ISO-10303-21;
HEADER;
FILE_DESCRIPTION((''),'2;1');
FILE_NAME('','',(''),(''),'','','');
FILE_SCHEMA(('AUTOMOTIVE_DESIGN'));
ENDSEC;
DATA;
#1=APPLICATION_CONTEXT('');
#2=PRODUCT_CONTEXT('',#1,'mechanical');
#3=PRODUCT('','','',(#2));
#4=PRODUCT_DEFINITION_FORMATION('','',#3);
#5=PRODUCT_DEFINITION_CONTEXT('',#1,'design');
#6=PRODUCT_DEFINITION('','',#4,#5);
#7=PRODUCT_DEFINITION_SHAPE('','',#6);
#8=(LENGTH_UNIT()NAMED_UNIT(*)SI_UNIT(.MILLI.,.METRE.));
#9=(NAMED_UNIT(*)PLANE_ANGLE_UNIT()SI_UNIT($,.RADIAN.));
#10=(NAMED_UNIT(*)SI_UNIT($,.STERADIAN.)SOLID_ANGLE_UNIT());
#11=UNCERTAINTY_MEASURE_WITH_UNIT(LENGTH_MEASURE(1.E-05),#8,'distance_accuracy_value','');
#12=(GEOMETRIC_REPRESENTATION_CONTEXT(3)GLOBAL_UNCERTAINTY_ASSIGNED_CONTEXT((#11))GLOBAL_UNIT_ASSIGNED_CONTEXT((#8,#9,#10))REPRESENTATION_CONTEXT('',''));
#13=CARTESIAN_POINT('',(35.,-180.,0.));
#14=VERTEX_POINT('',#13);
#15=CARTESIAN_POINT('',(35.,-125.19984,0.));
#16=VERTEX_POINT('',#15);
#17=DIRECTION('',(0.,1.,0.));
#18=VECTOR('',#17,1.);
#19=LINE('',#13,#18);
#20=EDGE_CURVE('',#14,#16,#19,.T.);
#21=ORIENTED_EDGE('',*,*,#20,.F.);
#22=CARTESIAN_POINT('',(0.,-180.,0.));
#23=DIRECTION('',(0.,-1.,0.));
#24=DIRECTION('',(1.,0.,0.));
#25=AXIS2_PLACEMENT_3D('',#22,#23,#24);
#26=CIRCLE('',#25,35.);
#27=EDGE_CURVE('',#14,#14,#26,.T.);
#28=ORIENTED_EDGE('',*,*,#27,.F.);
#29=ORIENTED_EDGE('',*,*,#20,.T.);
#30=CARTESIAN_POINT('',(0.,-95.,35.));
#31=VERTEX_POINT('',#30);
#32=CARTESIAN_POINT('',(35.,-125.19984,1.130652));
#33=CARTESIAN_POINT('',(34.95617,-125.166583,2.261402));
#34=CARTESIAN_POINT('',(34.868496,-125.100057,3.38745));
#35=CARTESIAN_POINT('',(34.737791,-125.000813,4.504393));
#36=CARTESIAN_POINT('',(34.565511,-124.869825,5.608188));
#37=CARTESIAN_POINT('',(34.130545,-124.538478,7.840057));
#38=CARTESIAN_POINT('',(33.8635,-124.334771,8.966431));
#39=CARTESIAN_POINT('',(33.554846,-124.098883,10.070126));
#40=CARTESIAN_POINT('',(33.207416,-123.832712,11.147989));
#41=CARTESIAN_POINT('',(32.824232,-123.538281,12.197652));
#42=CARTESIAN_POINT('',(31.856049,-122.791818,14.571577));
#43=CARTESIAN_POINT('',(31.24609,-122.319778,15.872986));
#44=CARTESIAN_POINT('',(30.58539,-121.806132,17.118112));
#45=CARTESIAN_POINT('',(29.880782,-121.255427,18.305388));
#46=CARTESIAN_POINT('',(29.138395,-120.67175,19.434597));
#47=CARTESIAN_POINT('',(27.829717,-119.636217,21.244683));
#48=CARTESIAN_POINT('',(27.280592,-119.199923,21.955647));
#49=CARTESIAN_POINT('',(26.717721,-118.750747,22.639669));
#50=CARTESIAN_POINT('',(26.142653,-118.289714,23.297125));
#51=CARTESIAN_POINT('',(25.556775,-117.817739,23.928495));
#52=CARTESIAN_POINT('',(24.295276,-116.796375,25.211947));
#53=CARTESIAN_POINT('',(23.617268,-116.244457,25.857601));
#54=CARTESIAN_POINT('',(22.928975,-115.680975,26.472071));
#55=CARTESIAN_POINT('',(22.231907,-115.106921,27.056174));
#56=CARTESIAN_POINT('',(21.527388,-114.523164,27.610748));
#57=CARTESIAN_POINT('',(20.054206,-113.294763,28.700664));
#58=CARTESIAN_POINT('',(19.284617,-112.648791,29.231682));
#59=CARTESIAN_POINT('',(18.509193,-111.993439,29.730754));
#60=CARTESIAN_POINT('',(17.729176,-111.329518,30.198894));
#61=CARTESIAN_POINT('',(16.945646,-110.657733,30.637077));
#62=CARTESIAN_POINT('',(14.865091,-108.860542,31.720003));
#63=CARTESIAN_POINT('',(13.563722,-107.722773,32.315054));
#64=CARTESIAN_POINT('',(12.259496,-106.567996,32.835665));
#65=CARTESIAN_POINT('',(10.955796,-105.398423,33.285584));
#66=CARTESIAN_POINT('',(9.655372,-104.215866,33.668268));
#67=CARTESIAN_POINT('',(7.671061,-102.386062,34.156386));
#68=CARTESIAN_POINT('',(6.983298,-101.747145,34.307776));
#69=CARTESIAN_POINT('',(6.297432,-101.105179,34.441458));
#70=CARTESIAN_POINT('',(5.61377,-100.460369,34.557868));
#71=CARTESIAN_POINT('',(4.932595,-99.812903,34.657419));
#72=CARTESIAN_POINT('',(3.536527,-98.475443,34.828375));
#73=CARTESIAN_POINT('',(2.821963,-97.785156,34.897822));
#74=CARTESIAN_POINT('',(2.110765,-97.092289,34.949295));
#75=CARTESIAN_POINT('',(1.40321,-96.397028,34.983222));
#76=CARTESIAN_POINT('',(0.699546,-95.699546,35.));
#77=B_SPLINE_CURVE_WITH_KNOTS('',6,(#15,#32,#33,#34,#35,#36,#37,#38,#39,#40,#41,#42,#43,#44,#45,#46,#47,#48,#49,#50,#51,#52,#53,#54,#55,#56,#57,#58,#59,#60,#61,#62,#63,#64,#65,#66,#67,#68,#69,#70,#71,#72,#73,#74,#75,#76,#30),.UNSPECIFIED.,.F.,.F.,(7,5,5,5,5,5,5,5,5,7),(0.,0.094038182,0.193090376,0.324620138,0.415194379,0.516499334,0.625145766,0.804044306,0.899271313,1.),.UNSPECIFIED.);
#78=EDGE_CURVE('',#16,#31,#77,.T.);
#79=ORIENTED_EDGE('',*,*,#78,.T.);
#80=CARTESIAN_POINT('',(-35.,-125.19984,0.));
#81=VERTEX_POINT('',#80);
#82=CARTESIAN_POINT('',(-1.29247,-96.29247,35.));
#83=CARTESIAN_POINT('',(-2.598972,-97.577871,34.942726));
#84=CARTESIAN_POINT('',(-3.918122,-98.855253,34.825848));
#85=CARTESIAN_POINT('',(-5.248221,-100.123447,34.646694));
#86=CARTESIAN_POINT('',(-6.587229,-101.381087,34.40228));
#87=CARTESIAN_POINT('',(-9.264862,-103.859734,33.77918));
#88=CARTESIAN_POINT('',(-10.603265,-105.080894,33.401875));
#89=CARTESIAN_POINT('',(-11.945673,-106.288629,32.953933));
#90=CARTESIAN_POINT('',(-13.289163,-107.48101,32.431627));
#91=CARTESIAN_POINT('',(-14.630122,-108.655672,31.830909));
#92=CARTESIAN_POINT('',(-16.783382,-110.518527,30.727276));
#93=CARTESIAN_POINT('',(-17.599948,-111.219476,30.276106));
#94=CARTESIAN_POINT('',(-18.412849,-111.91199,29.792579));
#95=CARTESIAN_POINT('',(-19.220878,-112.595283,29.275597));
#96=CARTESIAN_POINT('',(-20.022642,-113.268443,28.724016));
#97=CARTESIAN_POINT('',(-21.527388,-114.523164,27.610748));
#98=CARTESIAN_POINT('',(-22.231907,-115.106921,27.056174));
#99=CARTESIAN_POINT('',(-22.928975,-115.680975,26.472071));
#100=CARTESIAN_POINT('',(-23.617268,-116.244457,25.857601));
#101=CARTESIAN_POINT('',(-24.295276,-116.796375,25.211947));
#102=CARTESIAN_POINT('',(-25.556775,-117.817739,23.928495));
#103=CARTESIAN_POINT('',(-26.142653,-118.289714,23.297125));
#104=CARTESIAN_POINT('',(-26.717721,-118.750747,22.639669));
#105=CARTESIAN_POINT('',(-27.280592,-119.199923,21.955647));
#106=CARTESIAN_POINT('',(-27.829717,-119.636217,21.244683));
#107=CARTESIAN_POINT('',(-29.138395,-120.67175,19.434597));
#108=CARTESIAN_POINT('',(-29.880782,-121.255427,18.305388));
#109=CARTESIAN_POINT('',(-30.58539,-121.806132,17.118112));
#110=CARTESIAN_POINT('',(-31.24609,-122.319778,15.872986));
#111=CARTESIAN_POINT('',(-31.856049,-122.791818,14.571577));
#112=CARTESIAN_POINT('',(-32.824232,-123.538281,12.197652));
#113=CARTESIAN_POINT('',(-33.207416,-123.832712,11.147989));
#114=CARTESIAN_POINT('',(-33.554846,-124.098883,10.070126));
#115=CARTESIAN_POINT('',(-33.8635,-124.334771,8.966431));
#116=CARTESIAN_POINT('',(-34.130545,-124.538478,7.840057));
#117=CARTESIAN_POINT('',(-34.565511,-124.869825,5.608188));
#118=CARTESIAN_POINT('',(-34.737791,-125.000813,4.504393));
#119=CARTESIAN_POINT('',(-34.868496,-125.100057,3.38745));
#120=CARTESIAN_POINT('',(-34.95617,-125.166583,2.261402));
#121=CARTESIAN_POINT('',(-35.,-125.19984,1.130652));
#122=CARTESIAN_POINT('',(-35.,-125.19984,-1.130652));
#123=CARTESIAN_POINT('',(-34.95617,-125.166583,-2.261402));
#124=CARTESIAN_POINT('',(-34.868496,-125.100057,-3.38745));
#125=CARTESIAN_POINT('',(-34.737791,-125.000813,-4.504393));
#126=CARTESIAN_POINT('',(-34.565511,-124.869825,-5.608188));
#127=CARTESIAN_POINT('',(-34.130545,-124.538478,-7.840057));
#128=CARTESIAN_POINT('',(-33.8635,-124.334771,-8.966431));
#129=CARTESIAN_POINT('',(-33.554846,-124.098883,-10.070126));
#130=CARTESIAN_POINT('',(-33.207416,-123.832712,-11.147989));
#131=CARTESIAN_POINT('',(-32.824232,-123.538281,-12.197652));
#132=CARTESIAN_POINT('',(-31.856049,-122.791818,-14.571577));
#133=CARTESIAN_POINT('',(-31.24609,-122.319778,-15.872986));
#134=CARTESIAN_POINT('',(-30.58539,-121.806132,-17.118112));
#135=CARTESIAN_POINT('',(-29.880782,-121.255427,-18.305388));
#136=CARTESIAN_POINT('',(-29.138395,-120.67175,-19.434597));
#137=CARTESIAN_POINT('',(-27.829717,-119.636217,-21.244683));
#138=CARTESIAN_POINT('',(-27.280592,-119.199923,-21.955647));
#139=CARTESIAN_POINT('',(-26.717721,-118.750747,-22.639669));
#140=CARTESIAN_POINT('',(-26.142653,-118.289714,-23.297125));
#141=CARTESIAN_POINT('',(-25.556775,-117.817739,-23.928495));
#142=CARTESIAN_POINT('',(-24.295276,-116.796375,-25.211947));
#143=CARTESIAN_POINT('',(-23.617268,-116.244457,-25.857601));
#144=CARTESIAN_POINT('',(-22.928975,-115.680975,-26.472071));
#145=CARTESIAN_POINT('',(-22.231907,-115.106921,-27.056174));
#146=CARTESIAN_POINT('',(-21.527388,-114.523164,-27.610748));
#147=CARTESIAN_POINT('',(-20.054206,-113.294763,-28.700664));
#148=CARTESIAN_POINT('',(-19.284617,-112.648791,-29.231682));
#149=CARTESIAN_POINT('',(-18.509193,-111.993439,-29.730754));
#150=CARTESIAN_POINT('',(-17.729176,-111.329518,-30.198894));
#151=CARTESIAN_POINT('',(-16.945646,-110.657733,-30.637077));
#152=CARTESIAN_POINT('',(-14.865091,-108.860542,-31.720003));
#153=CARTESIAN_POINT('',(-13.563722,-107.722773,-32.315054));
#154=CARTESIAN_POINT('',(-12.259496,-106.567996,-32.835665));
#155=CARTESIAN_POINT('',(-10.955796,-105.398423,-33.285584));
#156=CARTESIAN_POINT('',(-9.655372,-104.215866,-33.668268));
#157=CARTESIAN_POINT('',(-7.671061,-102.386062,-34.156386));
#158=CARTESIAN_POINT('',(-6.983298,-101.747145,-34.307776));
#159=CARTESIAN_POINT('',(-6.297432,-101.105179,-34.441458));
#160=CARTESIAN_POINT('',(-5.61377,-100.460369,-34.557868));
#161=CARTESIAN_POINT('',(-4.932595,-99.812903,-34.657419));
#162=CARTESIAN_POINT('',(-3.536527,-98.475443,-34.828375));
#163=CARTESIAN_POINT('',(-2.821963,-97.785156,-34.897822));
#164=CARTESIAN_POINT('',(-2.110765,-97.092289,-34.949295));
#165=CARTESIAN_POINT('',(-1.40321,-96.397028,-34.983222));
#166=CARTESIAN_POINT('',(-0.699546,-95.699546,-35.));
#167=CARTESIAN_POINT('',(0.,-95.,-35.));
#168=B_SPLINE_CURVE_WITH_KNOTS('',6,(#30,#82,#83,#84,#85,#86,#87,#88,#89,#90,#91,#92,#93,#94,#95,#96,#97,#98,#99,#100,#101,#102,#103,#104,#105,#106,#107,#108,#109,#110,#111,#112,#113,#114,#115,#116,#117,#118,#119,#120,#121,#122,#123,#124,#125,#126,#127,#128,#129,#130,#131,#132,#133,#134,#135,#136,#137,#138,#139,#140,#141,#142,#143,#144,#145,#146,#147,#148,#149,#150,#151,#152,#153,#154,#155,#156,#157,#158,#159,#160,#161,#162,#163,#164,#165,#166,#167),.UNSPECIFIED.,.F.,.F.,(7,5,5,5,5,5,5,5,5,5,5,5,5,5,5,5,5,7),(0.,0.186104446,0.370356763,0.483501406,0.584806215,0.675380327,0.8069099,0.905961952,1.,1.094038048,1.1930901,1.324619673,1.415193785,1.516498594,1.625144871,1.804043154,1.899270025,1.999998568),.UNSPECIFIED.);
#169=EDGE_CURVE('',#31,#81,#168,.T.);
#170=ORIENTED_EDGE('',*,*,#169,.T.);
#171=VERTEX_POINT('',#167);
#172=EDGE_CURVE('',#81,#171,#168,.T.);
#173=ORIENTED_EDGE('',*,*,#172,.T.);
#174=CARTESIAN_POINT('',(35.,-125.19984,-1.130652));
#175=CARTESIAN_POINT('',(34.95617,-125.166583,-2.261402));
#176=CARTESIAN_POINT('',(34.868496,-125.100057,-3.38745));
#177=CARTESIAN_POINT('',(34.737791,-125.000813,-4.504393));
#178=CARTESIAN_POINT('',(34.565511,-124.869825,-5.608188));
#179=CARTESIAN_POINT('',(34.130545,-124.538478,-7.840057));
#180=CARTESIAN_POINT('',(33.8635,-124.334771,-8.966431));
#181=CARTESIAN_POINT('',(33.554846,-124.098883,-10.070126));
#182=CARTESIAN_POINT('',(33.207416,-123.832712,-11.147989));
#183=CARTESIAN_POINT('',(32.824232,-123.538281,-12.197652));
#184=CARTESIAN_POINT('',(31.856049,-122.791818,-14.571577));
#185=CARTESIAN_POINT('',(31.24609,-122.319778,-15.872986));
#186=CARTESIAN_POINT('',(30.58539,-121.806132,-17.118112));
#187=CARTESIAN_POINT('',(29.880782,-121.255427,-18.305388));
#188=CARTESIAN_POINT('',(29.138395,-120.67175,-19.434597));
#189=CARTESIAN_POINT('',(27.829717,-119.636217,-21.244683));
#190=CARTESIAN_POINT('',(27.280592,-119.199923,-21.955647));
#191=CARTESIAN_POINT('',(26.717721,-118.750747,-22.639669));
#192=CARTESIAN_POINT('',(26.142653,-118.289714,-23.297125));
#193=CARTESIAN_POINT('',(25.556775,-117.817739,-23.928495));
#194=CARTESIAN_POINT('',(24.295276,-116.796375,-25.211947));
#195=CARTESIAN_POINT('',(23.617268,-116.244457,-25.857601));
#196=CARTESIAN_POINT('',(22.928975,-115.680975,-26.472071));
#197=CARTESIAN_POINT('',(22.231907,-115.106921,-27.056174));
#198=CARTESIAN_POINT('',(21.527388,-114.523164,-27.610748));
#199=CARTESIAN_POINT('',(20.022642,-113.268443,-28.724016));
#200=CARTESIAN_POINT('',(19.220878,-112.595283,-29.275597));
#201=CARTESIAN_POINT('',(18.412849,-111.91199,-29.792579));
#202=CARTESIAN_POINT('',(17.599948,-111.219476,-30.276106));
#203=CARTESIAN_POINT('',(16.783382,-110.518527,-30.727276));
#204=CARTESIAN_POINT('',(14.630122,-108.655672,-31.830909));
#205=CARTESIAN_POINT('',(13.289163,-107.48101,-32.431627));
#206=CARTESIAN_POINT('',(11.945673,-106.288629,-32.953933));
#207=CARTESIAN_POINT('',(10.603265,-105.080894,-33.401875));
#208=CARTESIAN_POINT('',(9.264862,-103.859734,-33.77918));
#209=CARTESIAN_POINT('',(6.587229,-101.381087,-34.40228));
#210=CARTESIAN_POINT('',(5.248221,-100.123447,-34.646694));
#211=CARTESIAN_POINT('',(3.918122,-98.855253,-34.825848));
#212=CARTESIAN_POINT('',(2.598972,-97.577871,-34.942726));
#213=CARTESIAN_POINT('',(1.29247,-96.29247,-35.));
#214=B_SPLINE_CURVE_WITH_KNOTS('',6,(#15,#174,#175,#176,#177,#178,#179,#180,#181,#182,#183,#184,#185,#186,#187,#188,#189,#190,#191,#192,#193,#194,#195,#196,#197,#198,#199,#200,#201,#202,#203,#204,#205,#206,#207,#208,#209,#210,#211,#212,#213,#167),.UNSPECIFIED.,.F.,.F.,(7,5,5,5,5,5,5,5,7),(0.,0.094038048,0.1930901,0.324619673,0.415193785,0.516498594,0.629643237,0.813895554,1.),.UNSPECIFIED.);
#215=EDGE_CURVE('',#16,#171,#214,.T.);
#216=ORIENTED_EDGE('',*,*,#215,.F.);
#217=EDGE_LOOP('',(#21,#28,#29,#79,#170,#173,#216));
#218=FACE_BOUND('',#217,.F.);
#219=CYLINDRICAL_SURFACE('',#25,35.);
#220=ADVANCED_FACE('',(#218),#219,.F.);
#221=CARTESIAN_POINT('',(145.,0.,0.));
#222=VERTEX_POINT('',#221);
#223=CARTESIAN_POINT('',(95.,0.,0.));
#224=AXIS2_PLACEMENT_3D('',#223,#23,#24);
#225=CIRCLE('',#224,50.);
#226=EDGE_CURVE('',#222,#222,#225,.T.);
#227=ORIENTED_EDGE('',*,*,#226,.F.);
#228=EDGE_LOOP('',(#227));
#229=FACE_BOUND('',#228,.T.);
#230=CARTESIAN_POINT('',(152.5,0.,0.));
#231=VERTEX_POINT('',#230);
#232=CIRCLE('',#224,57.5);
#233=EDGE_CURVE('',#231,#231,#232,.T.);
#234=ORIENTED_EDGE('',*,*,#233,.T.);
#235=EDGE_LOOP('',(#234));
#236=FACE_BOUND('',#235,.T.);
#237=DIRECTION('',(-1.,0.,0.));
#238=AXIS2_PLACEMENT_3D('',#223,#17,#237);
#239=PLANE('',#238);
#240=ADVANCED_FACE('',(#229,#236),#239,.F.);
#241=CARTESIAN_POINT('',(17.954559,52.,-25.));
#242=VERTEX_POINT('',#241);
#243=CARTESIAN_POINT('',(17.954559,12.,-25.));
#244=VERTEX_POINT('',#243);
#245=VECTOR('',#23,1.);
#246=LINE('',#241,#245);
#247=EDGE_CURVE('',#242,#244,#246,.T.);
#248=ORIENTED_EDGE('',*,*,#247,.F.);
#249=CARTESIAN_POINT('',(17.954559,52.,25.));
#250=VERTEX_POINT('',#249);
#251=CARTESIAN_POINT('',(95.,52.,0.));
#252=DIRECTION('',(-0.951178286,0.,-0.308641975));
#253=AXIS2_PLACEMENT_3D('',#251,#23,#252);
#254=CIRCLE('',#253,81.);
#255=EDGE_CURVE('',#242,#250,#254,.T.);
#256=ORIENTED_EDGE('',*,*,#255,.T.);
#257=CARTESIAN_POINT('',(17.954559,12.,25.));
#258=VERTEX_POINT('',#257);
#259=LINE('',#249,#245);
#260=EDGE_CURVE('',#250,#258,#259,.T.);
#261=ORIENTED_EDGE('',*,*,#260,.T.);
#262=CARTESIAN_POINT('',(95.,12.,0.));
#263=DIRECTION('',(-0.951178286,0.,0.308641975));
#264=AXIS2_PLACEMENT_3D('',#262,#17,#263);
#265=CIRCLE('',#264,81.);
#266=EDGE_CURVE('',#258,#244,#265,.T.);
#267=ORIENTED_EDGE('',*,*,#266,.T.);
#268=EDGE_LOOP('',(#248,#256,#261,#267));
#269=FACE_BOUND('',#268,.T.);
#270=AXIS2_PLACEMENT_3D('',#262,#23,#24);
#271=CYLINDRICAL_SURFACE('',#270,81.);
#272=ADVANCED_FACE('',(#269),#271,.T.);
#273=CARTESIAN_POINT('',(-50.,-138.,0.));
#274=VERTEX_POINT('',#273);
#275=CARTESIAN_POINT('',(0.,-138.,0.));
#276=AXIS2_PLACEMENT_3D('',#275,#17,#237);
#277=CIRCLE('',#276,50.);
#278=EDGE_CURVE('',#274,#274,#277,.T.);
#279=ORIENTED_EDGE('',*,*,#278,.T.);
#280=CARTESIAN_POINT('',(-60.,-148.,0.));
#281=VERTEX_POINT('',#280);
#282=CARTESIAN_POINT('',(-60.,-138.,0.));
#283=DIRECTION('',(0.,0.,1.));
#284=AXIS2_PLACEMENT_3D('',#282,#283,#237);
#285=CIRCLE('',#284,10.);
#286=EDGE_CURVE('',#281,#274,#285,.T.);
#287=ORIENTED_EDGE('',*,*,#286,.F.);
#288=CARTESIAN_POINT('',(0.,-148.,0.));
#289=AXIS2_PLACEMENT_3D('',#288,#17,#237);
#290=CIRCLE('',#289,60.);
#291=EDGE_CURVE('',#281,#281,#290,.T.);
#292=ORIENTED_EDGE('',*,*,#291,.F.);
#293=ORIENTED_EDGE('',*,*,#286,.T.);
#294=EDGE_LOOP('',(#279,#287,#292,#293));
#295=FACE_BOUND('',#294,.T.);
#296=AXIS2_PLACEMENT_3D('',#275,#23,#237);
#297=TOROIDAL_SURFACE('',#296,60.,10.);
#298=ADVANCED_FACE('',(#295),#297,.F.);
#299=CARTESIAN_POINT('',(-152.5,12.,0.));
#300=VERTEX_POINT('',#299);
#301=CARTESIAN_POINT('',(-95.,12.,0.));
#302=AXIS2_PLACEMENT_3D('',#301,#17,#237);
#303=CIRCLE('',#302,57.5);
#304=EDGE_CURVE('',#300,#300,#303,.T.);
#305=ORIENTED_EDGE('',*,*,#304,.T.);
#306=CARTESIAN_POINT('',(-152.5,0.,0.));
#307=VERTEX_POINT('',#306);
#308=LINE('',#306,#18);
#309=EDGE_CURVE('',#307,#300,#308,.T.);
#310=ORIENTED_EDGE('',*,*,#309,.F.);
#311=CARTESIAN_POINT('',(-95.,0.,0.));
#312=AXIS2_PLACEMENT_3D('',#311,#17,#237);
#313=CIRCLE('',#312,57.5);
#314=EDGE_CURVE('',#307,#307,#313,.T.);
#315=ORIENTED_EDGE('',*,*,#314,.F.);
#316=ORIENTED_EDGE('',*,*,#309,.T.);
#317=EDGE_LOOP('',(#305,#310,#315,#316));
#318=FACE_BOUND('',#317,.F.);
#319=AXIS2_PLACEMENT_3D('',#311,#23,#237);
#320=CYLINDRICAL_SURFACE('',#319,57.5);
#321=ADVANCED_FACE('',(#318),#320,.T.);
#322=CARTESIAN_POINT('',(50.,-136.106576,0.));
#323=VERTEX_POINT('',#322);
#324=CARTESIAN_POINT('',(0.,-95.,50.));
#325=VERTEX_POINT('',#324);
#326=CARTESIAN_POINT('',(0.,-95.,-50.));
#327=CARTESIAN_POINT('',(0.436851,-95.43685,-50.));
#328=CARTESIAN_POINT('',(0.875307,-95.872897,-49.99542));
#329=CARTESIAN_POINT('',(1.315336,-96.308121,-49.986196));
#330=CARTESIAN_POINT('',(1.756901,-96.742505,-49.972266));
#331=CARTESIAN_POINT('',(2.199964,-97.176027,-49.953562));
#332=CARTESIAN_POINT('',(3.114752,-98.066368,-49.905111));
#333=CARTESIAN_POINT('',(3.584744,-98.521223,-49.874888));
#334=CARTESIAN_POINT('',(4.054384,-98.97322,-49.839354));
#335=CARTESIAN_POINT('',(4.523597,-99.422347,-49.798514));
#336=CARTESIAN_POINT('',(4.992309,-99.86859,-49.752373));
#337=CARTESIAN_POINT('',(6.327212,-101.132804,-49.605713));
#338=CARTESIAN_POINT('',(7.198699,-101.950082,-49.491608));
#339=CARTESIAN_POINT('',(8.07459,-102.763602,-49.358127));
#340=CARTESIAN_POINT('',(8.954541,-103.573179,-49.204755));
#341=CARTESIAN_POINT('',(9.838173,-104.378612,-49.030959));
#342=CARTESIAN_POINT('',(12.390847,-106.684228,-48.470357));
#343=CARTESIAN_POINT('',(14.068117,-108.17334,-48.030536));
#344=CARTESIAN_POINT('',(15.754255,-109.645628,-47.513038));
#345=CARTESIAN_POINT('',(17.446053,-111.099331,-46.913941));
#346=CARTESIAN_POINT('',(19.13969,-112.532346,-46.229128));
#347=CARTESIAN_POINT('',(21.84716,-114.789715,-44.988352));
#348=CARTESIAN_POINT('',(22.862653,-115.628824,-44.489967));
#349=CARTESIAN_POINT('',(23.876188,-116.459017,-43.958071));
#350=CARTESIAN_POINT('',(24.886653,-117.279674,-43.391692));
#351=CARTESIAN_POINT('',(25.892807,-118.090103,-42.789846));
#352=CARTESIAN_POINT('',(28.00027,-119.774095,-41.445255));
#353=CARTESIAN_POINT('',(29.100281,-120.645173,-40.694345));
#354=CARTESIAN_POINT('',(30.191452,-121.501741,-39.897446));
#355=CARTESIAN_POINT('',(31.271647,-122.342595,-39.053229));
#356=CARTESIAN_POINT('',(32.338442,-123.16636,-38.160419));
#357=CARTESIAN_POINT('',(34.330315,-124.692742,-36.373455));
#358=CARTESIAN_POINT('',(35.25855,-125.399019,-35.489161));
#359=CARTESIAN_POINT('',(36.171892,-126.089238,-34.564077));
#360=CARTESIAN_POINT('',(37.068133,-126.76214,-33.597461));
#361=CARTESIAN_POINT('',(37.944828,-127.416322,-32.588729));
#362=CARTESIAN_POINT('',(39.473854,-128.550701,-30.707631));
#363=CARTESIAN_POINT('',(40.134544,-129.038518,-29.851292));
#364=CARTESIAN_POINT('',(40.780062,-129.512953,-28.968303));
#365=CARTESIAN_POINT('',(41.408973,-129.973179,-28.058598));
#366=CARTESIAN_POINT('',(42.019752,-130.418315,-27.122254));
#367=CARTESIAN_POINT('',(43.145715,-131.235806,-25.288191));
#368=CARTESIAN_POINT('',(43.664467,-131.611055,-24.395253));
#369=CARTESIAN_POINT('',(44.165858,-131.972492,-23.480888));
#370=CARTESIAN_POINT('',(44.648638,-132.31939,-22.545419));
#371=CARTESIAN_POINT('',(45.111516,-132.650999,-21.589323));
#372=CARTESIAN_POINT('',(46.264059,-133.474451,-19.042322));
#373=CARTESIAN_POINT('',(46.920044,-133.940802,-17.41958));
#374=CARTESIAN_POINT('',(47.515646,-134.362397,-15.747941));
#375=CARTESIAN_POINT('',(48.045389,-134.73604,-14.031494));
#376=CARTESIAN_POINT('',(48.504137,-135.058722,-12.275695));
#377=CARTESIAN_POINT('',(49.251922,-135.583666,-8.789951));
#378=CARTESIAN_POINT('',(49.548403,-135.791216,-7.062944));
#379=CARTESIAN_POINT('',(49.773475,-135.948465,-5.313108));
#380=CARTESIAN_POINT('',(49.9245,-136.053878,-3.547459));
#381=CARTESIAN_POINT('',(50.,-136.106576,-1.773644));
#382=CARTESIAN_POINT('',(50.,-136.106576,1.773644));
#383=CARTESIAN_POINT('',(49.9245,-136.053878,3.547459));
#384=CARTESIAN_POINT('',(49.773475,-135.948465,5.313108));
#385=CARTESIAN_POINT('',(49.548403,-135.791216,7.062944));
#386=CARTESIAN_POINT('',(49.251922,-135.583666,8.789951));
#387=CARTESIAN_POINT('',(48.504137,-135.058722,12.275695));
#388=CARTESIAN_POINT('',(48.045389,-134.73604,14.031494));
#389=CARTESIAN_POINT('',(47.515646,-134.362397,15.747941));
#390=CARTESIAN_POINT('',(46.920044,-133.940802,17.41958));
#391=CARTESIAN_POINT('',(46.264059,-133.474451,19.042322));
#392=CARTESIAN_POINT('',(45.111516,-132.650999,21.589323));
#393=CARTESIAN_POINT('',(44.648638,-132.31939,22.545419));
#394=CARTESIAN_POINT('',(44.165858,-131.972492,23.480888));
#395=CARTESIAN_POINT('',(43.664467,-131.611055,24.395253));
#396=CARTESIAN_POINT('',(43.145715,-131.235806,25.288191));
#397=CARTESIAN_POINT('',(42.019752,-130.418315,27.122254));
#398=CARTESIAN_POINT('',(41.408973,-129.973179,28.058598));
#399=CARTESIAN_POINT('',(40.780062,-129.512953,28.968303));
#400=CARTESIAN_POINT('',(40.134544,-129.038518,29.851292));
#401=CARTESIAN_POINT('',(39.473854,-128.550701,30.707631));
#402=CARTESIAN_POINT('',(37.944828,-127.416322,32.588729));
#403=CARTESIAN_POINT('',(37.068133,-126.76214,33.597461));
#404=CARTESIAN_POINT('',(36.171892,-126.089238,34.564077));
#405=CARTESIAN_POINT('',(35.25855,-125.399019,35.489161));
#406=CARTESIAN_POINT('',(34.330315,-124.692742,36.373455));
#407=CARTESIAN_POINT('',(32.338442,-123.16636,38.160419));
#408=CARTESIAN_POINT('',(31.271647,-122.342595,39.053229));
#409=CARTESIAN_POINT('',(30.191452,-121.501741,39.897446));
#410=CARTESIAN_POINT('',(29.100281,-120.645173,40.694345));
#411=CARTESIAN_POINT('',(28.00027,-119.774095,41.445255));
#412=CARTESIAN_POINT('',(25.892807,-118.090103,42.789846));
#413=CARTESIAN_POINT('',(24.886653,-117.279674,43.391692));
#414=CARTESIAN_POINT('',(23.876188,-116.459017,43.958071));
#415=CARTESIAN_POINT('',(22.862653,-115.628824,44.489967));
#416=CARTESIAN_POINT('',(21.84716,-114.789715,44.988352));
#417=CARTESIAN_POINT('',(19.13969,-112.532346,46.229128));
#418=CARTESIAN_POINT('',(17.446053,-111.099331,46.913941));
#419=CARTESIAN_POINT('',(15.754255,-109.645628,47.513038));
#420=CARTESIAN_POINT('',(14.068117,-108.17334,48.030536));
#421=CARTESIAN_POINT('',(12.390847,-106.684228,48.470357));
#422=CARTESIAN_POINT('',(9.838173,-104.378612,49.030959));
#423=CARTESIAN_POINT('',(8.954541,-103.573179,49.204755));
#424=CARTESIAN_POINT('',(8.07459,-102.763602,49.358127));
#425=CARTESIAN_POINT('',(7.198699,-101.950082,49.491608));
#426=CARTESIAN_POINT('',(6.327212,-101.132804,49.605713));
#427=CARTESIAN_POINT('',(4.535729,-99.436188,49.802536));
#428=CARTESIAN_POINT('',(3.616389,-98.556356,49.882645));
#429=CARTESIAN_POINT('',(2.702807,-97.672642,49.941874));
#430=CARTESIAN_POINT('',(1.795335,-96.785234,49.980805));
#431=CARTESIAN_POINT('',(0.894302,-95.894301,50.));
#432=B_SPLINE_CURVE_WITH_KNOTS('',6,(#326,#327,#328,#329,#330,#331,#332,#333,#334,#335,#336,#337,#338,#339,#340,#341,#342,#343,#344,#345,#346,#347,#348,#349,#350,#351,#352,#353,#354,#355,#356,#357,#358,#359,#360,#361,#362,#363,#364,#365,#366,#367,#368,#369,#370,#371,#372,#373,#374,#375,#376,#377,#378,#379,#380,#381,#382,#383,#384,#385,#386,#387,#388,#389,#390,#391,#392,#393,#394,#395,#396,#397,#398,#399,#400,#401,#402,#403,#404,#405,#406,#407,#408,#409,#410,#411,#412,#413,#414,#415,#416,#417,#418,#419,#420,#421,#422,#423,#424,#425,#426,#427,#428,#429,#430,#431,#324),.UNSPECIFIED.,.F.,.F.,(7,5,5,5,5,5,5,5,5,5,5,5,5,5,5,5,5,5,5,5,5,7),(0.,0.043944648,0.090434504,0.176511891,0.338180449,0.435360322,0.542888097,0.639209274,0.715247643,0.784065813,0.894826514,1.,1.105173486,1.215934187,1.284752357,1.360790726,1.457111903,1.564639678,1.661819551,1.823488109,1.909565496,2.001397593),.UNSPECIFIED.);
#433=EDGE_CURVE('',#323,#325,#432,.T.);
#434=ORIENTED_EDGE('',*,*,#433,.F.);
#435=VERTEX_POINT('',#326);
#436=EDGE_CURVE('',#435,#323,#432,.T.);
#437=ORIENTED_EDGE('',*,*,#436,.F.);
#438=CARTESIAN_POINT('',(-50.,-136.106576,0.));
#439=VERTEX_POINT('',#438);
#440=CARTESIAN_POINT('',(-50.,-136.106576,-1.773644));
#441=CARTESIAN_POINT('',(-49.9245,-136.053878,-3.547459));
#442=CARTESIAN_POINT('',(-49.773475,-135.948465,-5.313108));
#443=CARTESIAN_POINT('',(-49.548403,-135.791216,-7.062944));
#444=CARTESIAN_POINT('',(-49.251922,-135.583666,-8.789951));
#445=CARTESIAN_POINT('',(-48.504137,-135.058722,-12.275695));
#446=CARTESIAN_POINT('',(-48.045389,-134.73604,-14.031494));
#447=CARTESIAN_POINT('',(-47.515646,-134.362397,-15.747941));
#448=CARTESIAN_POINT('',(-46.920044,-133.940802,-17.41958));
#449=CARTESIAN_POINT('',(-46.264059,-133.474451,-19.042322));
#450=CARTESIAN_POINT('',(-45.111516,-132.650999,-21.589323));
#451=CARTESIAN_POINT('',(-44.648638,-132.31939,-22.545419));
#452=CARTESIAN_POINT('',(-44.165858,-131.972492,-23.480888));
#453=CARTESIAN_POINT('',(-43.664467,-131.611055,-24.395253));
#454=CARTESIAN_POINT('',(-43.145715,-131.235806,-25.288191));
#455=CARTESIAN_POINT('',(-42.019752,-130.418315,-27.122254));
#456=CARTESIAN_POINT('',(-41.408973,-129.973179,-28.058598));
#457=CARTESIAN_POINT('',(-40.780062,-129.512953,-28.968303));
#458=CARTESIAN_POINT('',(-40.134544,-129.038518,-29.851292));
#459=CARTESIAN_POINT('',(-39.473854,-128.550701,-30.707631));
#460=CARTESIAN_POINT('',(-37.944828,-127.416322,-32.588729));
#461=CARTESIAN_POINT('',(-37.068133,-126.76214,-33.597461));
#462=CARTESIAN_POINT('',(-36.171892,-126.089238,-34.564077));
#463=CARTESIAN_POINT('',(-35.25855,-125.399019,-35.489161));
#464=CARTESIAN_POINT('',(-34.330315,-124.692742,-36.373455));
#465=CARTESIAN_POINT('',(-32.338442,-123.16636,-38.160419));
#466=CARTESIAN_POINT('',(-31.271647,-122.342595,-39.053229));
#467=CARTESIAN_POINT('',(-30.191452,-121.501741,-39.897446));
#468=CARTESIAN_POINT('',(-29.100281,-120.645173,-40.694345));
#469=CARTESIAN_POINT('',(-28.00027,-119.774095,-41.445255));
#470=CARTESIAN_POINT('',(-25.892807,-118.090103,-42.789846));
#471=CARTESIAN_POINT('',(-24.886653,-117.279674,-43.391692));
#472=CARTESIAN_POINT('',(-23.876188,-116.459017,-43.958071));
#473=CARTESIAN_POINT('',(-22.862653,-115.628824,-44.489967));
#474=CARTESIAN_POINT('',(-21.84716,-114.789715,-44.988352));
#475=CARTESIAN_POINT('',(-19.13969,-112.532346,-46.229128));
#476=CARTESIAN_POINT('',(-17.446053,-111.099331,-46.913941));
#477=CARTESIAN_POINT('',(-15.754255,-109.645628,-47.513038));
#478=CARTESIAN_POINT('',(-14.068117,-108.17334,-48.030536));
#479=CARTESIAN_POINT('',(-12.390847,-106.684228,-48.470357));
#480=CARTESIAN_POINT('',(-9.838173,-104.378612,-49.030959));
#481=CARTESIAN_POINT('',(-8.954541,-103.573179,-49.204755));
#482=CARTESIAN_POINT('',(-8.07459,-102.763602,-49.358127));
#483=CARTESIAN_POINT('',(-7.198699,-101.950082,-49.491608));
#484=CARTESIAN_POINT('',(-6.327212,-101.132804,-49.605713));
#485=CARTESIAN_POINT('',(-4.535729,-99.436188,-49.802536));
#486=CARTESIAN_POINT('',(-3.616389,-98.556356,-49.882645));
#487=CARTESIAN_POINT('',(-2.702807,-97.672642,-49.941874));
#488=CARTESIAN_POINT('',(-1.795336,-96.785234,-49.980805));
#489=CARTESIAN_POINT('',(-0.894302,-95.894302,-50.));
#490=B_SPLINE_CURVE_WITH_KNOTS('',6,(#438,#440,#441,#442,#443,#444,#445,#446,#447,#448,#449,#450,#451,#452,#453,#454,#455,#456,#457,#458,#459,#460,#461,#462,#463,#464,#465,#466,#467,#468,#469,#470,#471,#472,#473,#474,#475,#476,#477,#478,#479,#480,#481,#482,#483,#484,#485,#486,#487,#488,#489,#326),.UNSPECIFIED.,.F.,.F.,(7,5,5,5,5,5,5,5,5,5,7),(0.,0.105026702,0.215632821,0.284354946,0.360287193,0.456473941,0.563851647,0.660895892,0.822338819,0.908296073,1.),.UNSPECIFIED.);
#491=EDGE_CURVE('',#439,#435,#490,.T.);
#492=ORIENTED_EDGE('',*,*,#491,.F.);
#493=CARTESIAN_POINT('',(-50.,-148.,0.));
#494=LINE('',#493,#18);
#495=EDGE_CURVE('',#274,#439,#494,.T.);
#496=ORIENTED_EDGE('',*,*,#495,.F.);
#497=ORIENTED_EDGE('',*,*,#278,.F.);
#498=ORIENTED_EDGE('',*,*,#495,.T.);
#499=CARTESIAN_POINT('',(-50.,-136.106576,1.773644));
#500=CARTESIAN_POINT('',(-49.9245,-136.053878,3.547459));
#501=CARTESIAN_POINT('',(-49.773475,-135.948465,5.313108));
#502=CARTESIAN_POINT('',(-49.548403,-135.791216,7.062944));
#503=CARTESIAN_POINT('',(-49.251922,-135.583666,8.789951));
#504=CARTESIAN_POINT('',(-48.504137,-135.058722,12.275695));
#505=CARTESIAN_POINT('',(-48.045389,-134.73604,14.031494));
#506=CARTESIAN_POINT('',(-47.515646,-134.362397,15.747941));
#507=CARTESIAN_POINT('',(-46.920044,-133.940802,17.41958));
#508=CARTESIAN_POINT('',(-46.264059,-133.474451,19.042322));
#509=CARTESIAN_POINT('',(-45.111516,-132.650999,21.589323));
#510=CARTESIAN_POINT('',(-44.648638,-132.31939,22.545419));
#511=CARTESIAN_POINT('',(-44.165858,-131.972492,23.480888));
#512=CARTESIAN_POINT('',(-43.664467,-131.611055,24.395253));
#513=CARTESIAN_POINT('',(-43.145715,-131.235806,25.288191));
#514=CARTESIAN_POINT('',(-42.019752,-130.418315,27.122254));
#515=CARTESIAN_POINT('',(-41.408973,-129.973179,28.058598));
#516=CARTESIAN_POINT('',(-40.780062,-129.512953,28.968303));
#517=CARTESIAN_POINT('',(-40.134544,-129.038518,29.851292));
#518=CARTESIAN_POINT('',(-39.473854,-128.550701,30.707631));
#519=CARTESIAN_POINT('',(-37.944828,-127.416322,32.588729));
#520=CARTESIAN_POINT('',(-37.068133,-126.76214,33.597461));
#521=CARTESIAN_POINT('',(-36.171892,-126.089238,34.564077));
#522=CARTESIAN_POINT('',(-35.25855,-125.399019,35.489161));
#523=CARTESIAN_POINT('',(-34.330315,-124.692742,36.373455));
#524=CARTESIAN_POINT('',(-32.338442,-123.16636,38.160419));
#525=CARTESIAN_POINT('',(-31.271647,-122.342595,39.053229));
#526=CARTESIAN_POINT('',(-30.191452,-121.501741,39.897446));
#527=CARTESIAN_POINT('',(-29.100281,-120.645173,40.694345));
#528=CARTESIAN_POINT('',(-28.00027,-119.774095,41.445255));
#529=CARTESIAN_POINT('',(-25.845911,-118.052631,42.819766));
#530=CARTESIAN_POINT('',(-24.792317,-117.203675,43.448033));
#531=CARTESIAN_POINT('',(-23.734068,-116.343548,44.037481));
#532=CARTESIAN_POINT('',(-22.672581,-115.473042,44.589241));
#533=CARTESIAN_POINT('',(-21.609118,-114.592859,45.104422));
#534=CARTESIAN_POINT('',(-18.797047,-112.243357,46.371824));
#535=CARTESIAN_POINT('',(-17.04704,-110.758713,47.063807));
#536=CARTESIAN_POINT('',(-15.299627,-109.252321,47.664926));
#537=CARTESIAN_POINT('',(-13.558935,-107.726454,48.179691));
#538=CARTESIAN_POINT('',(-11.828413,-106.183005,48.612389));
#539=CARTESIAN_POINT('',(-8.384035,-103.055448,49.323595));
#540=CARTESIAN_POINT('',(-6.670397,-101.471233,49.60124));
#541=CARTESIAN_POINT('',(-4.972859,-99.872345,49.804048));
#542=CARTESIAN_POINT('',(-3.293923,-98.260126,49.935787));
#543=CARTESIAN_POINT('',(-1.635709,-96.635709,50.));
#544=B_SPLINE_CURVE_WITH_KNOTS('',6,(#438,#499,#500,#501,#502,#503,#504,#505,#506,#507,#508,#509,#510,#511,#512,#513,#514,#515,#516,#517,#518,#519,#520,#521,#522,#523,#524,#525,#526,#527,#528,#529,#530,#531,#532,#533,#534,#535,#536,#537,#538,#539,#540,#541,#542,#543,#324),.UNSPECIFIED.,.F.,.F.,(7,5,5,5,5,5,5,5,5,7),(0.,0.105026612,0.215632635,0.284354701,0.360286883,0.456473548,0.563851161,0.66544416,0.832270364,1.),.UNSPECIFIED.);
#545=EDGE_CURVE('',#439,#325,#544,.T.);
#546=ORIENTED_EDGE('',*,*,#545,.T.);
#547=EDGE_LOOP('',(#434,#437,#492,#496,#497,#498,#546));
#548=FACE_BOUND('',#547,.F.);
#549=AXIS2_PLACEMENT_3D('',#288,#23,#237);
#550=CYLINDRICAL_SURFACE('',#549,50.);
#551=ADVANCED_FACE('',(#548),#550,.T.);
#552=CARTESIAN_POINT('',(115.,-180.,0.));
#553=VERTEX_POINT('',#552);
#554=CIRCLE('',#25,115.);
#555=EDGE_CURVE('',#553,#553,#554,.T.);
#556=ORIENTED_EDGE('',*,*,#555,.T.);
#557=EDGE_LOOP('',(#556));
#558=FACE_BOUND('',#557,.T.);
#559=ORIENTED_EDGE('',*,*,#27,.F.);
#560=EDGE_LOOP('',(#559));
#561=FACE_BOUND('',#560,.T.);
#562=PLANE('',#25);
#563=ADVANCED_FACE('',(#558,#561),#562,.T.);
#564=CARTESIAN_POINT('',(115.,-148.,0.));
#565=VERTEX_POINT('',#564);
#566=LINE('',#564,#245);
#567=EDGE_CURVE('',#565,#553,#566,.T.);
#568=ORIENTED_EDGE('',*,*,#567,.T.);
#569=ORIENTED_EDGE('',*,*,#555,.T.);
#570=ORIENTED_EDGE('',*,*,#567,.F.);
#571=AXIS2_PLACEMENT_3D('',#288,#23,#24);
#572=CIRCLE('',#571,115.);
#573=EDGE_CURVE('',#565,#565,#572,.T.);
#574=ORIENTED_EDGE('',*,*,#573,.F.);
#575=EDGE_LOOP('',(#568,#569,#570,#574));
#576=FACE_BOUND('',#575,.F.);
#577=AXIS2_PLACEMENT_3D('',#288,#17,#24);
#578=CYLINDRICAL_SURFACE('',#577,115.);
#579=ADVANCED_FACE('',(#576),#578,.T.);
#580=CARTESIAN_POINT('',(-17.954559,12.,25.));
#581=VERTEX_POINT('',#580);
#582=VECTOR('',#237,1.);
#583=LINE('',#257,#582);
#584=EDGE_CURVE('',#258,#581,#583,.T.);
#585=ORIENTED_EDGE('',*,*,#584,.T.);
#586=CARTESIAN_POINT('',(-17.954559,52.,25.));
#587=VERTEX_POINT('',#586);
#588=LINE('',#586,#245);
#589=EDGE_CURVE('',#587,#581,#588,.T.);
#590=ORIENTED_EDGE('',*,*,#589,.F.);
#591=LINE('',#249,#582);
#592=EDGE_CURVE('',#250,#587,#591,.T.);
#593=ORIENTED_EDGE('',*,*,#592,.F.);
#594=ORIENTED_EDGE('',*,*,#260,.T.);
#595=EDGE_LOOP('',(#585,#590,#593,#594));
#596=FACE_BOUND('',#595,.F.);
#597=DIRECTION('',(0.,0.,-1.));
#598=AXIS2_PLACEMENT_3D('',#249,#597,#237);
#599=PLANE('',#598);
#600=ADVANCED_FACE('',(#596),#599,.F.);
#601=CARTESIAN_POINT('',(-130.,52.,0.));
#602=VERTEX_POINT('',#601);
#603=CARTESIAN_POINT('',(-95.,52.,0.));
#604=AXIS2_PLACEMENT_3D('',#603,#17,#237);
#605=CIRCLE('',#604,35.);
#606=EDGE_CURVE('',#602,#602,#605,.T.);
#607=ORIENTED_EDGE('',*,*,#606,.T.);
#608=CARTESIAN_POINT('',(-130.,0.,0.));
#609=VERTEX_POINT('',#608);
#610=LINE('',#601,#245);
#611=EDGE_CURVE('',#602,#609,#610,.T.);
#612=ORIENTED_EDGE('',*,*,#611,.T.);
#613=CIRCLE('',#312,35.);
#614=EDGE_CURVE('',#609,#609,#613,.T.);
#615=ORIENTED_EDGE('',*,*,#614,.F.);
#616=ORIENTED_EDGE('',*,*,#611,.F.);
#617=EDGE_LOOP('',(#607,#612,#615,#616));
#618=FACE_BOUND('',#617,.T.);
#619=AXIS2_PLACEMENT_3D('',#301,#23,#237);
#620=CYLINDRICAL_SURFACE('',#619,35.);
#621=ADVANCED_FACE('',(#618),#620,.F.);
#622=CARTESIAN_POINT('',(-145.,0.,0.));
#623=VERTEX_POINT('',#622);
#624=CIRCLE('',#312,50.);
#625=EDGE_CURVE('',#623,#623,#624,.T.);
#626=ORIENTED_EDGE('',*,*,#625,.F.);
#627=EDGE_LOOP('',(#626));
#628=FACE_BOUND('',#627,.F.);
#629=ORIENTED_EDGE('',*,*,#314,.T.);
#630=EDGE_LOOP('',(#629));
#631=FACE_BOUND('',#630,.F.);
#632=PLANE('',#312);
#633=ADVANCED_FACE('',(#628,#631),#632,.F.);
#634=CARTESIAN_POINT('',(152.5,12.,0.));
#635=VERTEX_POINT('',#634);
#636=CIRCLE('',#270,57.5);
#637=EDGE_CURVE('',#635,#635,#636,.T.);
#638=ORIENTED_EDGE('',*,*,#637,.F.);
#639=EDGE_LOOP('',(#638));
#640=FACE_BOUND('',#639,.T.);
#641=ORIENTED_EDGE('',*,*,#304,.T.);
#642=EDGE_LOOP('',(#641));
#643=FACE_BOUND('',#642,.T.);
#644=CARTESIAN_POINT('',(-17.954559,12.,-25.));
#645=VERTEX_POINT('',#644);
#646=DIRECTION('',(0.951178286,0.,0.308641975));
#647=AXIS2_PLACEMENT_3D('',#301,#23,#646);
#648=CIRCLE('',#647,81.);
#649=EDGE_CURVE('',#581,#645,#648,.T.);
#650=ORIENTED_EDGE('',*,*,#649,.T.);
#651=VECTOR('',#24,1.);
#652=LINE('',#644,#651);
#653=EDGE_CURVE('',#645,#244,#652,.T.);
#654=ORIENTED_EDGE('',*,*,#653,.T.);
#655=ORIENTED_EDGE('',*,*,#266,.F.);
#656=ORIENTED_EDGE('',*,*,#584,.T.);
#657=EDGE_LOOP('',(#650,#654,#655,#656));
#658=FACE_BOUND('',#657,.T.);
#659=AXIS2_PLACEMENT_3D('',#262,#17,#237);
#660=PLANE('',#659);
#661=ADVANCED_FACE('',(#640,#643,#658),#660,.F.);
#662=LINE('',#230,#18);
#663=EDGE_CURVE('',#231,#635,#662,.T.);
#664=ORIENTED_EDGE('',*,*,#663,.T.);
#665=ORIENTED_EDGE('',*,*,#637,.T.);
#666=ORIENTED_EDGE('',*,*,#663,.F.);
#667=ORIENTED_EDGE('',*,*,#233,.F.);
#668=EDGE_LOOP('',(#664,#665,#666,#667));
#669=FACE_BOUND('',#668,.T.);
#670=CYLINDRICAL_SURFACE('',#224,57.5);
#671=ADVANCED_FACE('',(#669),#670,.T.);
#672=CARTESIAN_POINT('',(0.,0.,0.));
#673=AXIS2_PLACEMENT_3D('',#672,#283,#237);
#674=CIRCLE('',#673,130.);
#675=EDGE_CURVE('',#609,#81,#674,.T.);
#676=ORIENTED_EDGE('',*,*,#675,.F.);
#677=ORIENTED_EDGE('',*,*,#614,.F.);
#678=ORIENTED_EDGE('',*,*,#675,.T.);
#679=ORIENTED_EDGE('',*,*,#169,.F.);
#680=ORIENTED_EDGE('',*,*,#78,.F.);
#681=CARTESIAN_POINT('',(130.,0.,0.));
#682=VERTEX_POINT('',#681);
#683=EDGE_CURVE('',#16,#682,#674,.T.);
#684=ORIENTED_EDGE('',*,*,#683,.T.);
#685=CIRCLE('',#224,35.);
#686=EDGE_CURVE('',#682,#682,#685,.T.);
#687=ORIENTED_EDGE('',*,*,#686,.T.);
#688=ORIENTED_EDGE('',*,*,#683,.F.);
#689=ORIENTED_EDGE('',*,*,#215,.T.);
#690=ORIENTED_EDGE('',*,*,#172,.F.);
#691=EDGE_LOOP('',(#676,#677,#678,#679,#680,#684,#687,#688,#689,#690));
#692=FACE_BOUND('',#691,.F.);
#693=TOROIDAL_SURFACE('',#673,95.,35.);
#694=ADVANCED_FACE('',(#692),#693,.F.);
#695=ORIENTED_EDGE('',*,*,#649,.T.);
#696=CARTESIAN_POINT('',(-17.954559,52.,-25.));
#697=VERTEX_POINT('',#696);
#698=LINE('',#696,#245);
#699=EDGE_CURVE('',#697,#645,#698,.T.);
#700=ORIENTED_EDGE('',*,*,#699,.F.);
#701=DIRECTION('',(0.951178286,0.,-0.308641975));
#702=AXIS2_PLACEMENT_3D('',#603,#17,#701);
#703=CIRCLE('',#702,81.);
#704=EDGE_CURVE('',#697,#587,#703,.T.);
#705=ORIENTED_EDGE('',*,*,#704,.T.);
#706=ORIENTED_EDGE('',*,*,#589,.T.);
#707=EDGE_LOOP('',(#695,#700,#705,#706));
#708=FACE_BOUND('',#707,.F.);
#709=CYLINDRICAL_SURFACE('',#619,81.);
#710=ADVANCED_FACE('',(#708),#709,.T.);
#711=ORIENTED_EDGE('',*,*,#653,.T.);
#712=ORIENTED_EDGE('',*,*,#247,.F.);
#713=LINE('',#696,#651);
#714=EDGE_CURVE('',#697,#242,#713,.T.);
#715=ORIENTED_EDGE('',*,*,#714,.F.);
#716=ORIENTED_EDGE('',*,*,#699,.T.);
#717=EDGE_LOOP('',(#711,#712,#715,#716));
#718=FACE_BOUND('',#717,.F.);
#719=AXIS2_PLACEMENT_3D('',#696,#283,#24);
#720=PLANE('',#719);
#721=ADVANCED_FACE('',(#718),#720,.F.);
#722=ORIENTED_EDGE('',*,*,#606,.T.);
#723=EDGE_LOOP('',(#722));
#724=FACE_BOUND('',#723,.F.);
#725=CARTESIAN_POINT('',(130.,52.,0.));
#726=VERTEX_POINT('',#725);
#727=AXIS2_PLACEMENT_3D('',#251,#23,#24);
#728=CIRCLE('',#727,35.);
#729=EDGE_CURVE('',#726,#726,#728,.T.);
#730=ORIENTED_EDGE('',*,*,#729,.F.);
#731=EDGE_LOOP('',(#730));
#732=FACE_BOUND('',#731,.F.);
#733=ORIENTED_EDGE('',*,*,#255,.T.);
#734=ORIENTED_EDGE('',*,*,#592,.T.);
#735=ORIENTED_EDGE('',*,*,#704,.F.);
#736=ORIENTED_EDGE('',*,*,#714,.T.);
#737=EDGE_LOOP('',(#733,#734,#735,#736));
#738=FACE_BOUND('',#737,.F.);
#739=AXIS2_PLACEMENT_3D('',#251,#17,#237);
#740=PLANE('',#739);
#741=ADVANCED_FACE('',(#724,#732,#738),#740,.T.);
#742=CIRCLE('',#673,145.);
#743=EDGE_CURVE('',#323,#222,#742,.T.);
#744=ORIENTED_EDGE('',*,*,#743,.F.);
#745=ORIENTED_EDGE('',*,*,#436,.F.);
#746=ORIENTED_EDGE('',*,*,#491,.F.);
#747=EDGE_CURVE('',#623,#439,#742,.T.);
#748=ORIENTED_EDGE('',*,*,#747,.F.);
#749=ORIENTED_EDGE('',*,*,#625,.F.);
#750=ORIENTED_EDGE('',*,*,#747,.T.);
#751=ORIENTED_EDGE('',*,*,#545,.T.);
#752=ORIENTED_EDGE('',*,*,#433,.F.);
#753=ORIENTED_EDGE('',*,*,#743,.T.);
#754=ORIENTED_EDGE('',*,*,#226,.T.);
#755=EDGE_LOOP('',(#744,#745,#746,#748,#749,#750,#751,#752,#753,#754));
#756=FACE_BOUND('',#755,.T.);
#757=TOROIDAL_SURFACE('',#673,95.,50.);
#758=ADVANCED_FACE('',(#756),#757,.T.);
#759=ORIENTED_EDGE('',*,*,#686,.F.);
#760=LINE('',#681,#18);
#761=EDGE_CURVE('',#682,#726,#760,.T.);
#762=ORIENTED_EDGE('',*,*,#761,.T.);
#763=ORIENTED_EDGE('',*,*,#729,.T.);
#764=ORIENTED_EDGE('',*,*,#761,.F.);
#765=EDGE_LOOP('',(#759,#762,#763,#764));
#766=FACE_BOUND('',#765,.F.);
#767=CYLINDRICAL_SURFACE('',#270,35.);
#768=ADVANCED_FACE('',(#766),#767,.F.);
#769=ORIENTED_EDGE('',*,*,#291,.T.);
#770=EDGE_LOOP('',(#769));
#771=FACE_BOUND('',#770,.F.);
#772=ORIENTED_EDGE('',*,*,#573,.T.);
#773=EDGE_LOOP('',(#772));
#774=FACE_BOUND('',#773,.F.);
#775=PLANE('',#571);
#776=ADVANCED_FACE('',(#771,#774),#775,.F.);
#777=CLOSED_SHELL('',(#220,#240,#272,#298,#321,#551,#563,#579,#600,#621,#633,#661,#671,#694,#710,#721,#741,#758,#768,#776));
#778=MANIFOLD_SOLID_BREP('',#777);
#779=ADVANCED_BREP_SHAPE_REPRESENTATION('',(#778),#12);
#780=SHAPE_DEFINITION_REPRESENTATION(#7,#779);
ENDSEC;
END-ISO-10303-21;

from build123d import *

# Parameters (mm, degrees)
SWEEP_THIN1_PROFILE_R         = 50
SWEEP_THIN1_PROFILE_R_2       = 35
SKETCH42_R                    = 57.5
SKETCH42_R_2                  = 35
BOSS_EXTRUDE1_DEPTH           = 12
SKETCH43_R                    = 81
SKETCH43_R_2                  = 35
BOSS_EXTRUDE2_DEPTH           = 40
BOSS_EXTRUDE3_DEPTH           = 40
BOSS_EXTRUDE4_REACH           = 280.455
SKETCH45_R                    = 50
SKETCH46_R                    = 115
BOSS_EXTRUDE5_DEPTH           = 32
CUT_EXTRUDE1_REACH            = 315.089
CUT_EXTRUDE1_END_MAJOR_RADIUS = 95
CUT_EXTRUDE1_END_MINOR_RADIUS = 35
SKETCH48_R                    = 35
FILLET1_R                     = 10


with BuildPart() as part:
    # Sweep-Thin1: sweep along a path in Sketch1
    with BuildLine(Plane.XY) as sweep_thin1_path:
        ThreePointArc((-95, 0), (0, -95), (95, 0))
    # Sweep-Thin1 profile (on start of the path) → Sweep-Thin1 (sweep)
    with BuildSketch(Plane(origin=(-95, 0, 0), x_dir=(-1, 0, 0), z_dir=(0, -1, 0))):
        Circle(SWEEP_THIN1_PROFILE_R)
        Circle(SWEEP_THIN1_PROFILE_R_2, mode=Mode.SUBTRACT)
    sweep(path=sweep_thin1_path.line)

    # Sketch42 → Boss-Extrude1 (add)
    with BuildSketch(Plane(origin=(0, 0, 0), x_dir=(1, 0, 0), z_dir=(0, 1, 0))):
        with Locations(Location((-95, 0, 0), (0, 0, 180))):
            Circle(SKETCH42_R)
        with Locations(Location((-95, 0, 0), (0, 0, 180))):
            Circle(SKETCH42_R_2, mode=Mode.SUBTRACT)
    boss_extrude1 = extrude(amount=BOSS_EXTRUDE1_DEPTH)

    # Sketch43 → Boss-Extrude2 (add)
    with BuildSketch(Plane(origin=(0, 12, 0), x_dir=(1, 0, 0), z_dir=(0, 1, 0))):
        with Locations(Location((-95, 0, 0), (0, 0, 180))):
            Circle(SKETCH43_R)
        with Locations(Location((-95, 0, 0), (0, 0, 180))):
            Circle(SKETCH43_R_2, mode=Mode.SUBTRACT)
    boss_extrude2 = extrude(amount=BOSS_EXTRUDE2_DEPTH)

    # Mirror1: Boss-Extrude1, Boss-Extrude2 across plane
    add(boss_extrude1.mirror(Plane(origin=(0, 0, 0), x_dir=(0, 0, 1), z_dir=(1, 0, 0))))
    add(boss_extrude2.mirror(Plane(origin=(0, 0, 0), x_dir=(0, 0, 1), z_dir=(1, 0, 0))))

    # Sketch44 → Boss-Extrude3 (add)
    with BuildSketch(Plane(origin=(0, 52, 0), x_dir=(1, 0, 0), z_dir=(0, 1, 0))):
        with BuildLine():
            Line((-17.954558863, 25), (17.954558863, 25))
            ThreePointArc((17.954558863, 25), (14, 0), (17.954558863, -25))
            Line((17.954558863, -25), (-17.954558863, -25))
            ThreePointArc((-17.954558863, -25), (-14, 0), (-17.954558863, 25))
        make_face()
    extrude(amount=-BOSS_EXTRUDE3_DEPTH)

    # Sketch45 → Boss-Extrude4 (add, up to next)
    with BuildSketch(Plane(origin=(0, -148, 0), x_dir=(1, 0, 0), z_dir=(0, 1, 0)), mode=Mode.PRIVATE) as boss_extrude4_sk1:
        with Locations(Location((0, 0, 0), (0, 0, 180))):
            Circle(SKETCH45_R)
    boss_extrude4_tool1 = extrude(boss_extrude4_sk1.sketch, amount=BOSS_EXTRUDE4_REACH, mode=Mode.PRIVATE) - part.part
    add(boss_extrude4_tool1.solids().sort_by_distance((0, -148, 0))[0])

    # Sketch46 → Boss-Extrude5 (add)
    with BuildSketch(Plane.XZ.offset(148)):
        Circle(SKETCH46_R)
    extrude(amount=BOSS_EXTRUDE5_DEPTH)

    # Cut-Extrude1: up to this torus (the profile starts outside it)
    cut_extrude1_end = Plane(origin=(0, 0, 0), z_dir=(0, 0, 1)) * Torus(CUT_EXTRUDE1_END_MAJOR_RADIUS, CUT_EXTRUDE1_END_MINOR_RADIUS, mode=Mode.PRIVATE)
    # Sketch48 → Cut-Extrude1 (cut, up to the surface)
    with BuildSketch(Plane.XZ.offset(180), mode=Mode.PRIVATE) as cut_extrude1_sk1:
        Circle(SKETCH48_R)
    cut_extrude1_tool1 = extrude(cut_extrude1_sk1.sketch, amount=-CUT_EXTRUDE1_REACH, mode=Mode.PRIVATE) - cut_extrude1_end
    add(cut_extrude1_tool1.solids().sort_by_distance((0, -180, 0))[0], mode=Mode.SUBTRACT)

    # Fillet1
    fillet1_edges = [part.edges().sort_by_distance(p)[0] for p in [
        (50, -148, 0),
    ]]
    fillet(fillet1_edges, radius=FILLET1_R)


solid = part.part
